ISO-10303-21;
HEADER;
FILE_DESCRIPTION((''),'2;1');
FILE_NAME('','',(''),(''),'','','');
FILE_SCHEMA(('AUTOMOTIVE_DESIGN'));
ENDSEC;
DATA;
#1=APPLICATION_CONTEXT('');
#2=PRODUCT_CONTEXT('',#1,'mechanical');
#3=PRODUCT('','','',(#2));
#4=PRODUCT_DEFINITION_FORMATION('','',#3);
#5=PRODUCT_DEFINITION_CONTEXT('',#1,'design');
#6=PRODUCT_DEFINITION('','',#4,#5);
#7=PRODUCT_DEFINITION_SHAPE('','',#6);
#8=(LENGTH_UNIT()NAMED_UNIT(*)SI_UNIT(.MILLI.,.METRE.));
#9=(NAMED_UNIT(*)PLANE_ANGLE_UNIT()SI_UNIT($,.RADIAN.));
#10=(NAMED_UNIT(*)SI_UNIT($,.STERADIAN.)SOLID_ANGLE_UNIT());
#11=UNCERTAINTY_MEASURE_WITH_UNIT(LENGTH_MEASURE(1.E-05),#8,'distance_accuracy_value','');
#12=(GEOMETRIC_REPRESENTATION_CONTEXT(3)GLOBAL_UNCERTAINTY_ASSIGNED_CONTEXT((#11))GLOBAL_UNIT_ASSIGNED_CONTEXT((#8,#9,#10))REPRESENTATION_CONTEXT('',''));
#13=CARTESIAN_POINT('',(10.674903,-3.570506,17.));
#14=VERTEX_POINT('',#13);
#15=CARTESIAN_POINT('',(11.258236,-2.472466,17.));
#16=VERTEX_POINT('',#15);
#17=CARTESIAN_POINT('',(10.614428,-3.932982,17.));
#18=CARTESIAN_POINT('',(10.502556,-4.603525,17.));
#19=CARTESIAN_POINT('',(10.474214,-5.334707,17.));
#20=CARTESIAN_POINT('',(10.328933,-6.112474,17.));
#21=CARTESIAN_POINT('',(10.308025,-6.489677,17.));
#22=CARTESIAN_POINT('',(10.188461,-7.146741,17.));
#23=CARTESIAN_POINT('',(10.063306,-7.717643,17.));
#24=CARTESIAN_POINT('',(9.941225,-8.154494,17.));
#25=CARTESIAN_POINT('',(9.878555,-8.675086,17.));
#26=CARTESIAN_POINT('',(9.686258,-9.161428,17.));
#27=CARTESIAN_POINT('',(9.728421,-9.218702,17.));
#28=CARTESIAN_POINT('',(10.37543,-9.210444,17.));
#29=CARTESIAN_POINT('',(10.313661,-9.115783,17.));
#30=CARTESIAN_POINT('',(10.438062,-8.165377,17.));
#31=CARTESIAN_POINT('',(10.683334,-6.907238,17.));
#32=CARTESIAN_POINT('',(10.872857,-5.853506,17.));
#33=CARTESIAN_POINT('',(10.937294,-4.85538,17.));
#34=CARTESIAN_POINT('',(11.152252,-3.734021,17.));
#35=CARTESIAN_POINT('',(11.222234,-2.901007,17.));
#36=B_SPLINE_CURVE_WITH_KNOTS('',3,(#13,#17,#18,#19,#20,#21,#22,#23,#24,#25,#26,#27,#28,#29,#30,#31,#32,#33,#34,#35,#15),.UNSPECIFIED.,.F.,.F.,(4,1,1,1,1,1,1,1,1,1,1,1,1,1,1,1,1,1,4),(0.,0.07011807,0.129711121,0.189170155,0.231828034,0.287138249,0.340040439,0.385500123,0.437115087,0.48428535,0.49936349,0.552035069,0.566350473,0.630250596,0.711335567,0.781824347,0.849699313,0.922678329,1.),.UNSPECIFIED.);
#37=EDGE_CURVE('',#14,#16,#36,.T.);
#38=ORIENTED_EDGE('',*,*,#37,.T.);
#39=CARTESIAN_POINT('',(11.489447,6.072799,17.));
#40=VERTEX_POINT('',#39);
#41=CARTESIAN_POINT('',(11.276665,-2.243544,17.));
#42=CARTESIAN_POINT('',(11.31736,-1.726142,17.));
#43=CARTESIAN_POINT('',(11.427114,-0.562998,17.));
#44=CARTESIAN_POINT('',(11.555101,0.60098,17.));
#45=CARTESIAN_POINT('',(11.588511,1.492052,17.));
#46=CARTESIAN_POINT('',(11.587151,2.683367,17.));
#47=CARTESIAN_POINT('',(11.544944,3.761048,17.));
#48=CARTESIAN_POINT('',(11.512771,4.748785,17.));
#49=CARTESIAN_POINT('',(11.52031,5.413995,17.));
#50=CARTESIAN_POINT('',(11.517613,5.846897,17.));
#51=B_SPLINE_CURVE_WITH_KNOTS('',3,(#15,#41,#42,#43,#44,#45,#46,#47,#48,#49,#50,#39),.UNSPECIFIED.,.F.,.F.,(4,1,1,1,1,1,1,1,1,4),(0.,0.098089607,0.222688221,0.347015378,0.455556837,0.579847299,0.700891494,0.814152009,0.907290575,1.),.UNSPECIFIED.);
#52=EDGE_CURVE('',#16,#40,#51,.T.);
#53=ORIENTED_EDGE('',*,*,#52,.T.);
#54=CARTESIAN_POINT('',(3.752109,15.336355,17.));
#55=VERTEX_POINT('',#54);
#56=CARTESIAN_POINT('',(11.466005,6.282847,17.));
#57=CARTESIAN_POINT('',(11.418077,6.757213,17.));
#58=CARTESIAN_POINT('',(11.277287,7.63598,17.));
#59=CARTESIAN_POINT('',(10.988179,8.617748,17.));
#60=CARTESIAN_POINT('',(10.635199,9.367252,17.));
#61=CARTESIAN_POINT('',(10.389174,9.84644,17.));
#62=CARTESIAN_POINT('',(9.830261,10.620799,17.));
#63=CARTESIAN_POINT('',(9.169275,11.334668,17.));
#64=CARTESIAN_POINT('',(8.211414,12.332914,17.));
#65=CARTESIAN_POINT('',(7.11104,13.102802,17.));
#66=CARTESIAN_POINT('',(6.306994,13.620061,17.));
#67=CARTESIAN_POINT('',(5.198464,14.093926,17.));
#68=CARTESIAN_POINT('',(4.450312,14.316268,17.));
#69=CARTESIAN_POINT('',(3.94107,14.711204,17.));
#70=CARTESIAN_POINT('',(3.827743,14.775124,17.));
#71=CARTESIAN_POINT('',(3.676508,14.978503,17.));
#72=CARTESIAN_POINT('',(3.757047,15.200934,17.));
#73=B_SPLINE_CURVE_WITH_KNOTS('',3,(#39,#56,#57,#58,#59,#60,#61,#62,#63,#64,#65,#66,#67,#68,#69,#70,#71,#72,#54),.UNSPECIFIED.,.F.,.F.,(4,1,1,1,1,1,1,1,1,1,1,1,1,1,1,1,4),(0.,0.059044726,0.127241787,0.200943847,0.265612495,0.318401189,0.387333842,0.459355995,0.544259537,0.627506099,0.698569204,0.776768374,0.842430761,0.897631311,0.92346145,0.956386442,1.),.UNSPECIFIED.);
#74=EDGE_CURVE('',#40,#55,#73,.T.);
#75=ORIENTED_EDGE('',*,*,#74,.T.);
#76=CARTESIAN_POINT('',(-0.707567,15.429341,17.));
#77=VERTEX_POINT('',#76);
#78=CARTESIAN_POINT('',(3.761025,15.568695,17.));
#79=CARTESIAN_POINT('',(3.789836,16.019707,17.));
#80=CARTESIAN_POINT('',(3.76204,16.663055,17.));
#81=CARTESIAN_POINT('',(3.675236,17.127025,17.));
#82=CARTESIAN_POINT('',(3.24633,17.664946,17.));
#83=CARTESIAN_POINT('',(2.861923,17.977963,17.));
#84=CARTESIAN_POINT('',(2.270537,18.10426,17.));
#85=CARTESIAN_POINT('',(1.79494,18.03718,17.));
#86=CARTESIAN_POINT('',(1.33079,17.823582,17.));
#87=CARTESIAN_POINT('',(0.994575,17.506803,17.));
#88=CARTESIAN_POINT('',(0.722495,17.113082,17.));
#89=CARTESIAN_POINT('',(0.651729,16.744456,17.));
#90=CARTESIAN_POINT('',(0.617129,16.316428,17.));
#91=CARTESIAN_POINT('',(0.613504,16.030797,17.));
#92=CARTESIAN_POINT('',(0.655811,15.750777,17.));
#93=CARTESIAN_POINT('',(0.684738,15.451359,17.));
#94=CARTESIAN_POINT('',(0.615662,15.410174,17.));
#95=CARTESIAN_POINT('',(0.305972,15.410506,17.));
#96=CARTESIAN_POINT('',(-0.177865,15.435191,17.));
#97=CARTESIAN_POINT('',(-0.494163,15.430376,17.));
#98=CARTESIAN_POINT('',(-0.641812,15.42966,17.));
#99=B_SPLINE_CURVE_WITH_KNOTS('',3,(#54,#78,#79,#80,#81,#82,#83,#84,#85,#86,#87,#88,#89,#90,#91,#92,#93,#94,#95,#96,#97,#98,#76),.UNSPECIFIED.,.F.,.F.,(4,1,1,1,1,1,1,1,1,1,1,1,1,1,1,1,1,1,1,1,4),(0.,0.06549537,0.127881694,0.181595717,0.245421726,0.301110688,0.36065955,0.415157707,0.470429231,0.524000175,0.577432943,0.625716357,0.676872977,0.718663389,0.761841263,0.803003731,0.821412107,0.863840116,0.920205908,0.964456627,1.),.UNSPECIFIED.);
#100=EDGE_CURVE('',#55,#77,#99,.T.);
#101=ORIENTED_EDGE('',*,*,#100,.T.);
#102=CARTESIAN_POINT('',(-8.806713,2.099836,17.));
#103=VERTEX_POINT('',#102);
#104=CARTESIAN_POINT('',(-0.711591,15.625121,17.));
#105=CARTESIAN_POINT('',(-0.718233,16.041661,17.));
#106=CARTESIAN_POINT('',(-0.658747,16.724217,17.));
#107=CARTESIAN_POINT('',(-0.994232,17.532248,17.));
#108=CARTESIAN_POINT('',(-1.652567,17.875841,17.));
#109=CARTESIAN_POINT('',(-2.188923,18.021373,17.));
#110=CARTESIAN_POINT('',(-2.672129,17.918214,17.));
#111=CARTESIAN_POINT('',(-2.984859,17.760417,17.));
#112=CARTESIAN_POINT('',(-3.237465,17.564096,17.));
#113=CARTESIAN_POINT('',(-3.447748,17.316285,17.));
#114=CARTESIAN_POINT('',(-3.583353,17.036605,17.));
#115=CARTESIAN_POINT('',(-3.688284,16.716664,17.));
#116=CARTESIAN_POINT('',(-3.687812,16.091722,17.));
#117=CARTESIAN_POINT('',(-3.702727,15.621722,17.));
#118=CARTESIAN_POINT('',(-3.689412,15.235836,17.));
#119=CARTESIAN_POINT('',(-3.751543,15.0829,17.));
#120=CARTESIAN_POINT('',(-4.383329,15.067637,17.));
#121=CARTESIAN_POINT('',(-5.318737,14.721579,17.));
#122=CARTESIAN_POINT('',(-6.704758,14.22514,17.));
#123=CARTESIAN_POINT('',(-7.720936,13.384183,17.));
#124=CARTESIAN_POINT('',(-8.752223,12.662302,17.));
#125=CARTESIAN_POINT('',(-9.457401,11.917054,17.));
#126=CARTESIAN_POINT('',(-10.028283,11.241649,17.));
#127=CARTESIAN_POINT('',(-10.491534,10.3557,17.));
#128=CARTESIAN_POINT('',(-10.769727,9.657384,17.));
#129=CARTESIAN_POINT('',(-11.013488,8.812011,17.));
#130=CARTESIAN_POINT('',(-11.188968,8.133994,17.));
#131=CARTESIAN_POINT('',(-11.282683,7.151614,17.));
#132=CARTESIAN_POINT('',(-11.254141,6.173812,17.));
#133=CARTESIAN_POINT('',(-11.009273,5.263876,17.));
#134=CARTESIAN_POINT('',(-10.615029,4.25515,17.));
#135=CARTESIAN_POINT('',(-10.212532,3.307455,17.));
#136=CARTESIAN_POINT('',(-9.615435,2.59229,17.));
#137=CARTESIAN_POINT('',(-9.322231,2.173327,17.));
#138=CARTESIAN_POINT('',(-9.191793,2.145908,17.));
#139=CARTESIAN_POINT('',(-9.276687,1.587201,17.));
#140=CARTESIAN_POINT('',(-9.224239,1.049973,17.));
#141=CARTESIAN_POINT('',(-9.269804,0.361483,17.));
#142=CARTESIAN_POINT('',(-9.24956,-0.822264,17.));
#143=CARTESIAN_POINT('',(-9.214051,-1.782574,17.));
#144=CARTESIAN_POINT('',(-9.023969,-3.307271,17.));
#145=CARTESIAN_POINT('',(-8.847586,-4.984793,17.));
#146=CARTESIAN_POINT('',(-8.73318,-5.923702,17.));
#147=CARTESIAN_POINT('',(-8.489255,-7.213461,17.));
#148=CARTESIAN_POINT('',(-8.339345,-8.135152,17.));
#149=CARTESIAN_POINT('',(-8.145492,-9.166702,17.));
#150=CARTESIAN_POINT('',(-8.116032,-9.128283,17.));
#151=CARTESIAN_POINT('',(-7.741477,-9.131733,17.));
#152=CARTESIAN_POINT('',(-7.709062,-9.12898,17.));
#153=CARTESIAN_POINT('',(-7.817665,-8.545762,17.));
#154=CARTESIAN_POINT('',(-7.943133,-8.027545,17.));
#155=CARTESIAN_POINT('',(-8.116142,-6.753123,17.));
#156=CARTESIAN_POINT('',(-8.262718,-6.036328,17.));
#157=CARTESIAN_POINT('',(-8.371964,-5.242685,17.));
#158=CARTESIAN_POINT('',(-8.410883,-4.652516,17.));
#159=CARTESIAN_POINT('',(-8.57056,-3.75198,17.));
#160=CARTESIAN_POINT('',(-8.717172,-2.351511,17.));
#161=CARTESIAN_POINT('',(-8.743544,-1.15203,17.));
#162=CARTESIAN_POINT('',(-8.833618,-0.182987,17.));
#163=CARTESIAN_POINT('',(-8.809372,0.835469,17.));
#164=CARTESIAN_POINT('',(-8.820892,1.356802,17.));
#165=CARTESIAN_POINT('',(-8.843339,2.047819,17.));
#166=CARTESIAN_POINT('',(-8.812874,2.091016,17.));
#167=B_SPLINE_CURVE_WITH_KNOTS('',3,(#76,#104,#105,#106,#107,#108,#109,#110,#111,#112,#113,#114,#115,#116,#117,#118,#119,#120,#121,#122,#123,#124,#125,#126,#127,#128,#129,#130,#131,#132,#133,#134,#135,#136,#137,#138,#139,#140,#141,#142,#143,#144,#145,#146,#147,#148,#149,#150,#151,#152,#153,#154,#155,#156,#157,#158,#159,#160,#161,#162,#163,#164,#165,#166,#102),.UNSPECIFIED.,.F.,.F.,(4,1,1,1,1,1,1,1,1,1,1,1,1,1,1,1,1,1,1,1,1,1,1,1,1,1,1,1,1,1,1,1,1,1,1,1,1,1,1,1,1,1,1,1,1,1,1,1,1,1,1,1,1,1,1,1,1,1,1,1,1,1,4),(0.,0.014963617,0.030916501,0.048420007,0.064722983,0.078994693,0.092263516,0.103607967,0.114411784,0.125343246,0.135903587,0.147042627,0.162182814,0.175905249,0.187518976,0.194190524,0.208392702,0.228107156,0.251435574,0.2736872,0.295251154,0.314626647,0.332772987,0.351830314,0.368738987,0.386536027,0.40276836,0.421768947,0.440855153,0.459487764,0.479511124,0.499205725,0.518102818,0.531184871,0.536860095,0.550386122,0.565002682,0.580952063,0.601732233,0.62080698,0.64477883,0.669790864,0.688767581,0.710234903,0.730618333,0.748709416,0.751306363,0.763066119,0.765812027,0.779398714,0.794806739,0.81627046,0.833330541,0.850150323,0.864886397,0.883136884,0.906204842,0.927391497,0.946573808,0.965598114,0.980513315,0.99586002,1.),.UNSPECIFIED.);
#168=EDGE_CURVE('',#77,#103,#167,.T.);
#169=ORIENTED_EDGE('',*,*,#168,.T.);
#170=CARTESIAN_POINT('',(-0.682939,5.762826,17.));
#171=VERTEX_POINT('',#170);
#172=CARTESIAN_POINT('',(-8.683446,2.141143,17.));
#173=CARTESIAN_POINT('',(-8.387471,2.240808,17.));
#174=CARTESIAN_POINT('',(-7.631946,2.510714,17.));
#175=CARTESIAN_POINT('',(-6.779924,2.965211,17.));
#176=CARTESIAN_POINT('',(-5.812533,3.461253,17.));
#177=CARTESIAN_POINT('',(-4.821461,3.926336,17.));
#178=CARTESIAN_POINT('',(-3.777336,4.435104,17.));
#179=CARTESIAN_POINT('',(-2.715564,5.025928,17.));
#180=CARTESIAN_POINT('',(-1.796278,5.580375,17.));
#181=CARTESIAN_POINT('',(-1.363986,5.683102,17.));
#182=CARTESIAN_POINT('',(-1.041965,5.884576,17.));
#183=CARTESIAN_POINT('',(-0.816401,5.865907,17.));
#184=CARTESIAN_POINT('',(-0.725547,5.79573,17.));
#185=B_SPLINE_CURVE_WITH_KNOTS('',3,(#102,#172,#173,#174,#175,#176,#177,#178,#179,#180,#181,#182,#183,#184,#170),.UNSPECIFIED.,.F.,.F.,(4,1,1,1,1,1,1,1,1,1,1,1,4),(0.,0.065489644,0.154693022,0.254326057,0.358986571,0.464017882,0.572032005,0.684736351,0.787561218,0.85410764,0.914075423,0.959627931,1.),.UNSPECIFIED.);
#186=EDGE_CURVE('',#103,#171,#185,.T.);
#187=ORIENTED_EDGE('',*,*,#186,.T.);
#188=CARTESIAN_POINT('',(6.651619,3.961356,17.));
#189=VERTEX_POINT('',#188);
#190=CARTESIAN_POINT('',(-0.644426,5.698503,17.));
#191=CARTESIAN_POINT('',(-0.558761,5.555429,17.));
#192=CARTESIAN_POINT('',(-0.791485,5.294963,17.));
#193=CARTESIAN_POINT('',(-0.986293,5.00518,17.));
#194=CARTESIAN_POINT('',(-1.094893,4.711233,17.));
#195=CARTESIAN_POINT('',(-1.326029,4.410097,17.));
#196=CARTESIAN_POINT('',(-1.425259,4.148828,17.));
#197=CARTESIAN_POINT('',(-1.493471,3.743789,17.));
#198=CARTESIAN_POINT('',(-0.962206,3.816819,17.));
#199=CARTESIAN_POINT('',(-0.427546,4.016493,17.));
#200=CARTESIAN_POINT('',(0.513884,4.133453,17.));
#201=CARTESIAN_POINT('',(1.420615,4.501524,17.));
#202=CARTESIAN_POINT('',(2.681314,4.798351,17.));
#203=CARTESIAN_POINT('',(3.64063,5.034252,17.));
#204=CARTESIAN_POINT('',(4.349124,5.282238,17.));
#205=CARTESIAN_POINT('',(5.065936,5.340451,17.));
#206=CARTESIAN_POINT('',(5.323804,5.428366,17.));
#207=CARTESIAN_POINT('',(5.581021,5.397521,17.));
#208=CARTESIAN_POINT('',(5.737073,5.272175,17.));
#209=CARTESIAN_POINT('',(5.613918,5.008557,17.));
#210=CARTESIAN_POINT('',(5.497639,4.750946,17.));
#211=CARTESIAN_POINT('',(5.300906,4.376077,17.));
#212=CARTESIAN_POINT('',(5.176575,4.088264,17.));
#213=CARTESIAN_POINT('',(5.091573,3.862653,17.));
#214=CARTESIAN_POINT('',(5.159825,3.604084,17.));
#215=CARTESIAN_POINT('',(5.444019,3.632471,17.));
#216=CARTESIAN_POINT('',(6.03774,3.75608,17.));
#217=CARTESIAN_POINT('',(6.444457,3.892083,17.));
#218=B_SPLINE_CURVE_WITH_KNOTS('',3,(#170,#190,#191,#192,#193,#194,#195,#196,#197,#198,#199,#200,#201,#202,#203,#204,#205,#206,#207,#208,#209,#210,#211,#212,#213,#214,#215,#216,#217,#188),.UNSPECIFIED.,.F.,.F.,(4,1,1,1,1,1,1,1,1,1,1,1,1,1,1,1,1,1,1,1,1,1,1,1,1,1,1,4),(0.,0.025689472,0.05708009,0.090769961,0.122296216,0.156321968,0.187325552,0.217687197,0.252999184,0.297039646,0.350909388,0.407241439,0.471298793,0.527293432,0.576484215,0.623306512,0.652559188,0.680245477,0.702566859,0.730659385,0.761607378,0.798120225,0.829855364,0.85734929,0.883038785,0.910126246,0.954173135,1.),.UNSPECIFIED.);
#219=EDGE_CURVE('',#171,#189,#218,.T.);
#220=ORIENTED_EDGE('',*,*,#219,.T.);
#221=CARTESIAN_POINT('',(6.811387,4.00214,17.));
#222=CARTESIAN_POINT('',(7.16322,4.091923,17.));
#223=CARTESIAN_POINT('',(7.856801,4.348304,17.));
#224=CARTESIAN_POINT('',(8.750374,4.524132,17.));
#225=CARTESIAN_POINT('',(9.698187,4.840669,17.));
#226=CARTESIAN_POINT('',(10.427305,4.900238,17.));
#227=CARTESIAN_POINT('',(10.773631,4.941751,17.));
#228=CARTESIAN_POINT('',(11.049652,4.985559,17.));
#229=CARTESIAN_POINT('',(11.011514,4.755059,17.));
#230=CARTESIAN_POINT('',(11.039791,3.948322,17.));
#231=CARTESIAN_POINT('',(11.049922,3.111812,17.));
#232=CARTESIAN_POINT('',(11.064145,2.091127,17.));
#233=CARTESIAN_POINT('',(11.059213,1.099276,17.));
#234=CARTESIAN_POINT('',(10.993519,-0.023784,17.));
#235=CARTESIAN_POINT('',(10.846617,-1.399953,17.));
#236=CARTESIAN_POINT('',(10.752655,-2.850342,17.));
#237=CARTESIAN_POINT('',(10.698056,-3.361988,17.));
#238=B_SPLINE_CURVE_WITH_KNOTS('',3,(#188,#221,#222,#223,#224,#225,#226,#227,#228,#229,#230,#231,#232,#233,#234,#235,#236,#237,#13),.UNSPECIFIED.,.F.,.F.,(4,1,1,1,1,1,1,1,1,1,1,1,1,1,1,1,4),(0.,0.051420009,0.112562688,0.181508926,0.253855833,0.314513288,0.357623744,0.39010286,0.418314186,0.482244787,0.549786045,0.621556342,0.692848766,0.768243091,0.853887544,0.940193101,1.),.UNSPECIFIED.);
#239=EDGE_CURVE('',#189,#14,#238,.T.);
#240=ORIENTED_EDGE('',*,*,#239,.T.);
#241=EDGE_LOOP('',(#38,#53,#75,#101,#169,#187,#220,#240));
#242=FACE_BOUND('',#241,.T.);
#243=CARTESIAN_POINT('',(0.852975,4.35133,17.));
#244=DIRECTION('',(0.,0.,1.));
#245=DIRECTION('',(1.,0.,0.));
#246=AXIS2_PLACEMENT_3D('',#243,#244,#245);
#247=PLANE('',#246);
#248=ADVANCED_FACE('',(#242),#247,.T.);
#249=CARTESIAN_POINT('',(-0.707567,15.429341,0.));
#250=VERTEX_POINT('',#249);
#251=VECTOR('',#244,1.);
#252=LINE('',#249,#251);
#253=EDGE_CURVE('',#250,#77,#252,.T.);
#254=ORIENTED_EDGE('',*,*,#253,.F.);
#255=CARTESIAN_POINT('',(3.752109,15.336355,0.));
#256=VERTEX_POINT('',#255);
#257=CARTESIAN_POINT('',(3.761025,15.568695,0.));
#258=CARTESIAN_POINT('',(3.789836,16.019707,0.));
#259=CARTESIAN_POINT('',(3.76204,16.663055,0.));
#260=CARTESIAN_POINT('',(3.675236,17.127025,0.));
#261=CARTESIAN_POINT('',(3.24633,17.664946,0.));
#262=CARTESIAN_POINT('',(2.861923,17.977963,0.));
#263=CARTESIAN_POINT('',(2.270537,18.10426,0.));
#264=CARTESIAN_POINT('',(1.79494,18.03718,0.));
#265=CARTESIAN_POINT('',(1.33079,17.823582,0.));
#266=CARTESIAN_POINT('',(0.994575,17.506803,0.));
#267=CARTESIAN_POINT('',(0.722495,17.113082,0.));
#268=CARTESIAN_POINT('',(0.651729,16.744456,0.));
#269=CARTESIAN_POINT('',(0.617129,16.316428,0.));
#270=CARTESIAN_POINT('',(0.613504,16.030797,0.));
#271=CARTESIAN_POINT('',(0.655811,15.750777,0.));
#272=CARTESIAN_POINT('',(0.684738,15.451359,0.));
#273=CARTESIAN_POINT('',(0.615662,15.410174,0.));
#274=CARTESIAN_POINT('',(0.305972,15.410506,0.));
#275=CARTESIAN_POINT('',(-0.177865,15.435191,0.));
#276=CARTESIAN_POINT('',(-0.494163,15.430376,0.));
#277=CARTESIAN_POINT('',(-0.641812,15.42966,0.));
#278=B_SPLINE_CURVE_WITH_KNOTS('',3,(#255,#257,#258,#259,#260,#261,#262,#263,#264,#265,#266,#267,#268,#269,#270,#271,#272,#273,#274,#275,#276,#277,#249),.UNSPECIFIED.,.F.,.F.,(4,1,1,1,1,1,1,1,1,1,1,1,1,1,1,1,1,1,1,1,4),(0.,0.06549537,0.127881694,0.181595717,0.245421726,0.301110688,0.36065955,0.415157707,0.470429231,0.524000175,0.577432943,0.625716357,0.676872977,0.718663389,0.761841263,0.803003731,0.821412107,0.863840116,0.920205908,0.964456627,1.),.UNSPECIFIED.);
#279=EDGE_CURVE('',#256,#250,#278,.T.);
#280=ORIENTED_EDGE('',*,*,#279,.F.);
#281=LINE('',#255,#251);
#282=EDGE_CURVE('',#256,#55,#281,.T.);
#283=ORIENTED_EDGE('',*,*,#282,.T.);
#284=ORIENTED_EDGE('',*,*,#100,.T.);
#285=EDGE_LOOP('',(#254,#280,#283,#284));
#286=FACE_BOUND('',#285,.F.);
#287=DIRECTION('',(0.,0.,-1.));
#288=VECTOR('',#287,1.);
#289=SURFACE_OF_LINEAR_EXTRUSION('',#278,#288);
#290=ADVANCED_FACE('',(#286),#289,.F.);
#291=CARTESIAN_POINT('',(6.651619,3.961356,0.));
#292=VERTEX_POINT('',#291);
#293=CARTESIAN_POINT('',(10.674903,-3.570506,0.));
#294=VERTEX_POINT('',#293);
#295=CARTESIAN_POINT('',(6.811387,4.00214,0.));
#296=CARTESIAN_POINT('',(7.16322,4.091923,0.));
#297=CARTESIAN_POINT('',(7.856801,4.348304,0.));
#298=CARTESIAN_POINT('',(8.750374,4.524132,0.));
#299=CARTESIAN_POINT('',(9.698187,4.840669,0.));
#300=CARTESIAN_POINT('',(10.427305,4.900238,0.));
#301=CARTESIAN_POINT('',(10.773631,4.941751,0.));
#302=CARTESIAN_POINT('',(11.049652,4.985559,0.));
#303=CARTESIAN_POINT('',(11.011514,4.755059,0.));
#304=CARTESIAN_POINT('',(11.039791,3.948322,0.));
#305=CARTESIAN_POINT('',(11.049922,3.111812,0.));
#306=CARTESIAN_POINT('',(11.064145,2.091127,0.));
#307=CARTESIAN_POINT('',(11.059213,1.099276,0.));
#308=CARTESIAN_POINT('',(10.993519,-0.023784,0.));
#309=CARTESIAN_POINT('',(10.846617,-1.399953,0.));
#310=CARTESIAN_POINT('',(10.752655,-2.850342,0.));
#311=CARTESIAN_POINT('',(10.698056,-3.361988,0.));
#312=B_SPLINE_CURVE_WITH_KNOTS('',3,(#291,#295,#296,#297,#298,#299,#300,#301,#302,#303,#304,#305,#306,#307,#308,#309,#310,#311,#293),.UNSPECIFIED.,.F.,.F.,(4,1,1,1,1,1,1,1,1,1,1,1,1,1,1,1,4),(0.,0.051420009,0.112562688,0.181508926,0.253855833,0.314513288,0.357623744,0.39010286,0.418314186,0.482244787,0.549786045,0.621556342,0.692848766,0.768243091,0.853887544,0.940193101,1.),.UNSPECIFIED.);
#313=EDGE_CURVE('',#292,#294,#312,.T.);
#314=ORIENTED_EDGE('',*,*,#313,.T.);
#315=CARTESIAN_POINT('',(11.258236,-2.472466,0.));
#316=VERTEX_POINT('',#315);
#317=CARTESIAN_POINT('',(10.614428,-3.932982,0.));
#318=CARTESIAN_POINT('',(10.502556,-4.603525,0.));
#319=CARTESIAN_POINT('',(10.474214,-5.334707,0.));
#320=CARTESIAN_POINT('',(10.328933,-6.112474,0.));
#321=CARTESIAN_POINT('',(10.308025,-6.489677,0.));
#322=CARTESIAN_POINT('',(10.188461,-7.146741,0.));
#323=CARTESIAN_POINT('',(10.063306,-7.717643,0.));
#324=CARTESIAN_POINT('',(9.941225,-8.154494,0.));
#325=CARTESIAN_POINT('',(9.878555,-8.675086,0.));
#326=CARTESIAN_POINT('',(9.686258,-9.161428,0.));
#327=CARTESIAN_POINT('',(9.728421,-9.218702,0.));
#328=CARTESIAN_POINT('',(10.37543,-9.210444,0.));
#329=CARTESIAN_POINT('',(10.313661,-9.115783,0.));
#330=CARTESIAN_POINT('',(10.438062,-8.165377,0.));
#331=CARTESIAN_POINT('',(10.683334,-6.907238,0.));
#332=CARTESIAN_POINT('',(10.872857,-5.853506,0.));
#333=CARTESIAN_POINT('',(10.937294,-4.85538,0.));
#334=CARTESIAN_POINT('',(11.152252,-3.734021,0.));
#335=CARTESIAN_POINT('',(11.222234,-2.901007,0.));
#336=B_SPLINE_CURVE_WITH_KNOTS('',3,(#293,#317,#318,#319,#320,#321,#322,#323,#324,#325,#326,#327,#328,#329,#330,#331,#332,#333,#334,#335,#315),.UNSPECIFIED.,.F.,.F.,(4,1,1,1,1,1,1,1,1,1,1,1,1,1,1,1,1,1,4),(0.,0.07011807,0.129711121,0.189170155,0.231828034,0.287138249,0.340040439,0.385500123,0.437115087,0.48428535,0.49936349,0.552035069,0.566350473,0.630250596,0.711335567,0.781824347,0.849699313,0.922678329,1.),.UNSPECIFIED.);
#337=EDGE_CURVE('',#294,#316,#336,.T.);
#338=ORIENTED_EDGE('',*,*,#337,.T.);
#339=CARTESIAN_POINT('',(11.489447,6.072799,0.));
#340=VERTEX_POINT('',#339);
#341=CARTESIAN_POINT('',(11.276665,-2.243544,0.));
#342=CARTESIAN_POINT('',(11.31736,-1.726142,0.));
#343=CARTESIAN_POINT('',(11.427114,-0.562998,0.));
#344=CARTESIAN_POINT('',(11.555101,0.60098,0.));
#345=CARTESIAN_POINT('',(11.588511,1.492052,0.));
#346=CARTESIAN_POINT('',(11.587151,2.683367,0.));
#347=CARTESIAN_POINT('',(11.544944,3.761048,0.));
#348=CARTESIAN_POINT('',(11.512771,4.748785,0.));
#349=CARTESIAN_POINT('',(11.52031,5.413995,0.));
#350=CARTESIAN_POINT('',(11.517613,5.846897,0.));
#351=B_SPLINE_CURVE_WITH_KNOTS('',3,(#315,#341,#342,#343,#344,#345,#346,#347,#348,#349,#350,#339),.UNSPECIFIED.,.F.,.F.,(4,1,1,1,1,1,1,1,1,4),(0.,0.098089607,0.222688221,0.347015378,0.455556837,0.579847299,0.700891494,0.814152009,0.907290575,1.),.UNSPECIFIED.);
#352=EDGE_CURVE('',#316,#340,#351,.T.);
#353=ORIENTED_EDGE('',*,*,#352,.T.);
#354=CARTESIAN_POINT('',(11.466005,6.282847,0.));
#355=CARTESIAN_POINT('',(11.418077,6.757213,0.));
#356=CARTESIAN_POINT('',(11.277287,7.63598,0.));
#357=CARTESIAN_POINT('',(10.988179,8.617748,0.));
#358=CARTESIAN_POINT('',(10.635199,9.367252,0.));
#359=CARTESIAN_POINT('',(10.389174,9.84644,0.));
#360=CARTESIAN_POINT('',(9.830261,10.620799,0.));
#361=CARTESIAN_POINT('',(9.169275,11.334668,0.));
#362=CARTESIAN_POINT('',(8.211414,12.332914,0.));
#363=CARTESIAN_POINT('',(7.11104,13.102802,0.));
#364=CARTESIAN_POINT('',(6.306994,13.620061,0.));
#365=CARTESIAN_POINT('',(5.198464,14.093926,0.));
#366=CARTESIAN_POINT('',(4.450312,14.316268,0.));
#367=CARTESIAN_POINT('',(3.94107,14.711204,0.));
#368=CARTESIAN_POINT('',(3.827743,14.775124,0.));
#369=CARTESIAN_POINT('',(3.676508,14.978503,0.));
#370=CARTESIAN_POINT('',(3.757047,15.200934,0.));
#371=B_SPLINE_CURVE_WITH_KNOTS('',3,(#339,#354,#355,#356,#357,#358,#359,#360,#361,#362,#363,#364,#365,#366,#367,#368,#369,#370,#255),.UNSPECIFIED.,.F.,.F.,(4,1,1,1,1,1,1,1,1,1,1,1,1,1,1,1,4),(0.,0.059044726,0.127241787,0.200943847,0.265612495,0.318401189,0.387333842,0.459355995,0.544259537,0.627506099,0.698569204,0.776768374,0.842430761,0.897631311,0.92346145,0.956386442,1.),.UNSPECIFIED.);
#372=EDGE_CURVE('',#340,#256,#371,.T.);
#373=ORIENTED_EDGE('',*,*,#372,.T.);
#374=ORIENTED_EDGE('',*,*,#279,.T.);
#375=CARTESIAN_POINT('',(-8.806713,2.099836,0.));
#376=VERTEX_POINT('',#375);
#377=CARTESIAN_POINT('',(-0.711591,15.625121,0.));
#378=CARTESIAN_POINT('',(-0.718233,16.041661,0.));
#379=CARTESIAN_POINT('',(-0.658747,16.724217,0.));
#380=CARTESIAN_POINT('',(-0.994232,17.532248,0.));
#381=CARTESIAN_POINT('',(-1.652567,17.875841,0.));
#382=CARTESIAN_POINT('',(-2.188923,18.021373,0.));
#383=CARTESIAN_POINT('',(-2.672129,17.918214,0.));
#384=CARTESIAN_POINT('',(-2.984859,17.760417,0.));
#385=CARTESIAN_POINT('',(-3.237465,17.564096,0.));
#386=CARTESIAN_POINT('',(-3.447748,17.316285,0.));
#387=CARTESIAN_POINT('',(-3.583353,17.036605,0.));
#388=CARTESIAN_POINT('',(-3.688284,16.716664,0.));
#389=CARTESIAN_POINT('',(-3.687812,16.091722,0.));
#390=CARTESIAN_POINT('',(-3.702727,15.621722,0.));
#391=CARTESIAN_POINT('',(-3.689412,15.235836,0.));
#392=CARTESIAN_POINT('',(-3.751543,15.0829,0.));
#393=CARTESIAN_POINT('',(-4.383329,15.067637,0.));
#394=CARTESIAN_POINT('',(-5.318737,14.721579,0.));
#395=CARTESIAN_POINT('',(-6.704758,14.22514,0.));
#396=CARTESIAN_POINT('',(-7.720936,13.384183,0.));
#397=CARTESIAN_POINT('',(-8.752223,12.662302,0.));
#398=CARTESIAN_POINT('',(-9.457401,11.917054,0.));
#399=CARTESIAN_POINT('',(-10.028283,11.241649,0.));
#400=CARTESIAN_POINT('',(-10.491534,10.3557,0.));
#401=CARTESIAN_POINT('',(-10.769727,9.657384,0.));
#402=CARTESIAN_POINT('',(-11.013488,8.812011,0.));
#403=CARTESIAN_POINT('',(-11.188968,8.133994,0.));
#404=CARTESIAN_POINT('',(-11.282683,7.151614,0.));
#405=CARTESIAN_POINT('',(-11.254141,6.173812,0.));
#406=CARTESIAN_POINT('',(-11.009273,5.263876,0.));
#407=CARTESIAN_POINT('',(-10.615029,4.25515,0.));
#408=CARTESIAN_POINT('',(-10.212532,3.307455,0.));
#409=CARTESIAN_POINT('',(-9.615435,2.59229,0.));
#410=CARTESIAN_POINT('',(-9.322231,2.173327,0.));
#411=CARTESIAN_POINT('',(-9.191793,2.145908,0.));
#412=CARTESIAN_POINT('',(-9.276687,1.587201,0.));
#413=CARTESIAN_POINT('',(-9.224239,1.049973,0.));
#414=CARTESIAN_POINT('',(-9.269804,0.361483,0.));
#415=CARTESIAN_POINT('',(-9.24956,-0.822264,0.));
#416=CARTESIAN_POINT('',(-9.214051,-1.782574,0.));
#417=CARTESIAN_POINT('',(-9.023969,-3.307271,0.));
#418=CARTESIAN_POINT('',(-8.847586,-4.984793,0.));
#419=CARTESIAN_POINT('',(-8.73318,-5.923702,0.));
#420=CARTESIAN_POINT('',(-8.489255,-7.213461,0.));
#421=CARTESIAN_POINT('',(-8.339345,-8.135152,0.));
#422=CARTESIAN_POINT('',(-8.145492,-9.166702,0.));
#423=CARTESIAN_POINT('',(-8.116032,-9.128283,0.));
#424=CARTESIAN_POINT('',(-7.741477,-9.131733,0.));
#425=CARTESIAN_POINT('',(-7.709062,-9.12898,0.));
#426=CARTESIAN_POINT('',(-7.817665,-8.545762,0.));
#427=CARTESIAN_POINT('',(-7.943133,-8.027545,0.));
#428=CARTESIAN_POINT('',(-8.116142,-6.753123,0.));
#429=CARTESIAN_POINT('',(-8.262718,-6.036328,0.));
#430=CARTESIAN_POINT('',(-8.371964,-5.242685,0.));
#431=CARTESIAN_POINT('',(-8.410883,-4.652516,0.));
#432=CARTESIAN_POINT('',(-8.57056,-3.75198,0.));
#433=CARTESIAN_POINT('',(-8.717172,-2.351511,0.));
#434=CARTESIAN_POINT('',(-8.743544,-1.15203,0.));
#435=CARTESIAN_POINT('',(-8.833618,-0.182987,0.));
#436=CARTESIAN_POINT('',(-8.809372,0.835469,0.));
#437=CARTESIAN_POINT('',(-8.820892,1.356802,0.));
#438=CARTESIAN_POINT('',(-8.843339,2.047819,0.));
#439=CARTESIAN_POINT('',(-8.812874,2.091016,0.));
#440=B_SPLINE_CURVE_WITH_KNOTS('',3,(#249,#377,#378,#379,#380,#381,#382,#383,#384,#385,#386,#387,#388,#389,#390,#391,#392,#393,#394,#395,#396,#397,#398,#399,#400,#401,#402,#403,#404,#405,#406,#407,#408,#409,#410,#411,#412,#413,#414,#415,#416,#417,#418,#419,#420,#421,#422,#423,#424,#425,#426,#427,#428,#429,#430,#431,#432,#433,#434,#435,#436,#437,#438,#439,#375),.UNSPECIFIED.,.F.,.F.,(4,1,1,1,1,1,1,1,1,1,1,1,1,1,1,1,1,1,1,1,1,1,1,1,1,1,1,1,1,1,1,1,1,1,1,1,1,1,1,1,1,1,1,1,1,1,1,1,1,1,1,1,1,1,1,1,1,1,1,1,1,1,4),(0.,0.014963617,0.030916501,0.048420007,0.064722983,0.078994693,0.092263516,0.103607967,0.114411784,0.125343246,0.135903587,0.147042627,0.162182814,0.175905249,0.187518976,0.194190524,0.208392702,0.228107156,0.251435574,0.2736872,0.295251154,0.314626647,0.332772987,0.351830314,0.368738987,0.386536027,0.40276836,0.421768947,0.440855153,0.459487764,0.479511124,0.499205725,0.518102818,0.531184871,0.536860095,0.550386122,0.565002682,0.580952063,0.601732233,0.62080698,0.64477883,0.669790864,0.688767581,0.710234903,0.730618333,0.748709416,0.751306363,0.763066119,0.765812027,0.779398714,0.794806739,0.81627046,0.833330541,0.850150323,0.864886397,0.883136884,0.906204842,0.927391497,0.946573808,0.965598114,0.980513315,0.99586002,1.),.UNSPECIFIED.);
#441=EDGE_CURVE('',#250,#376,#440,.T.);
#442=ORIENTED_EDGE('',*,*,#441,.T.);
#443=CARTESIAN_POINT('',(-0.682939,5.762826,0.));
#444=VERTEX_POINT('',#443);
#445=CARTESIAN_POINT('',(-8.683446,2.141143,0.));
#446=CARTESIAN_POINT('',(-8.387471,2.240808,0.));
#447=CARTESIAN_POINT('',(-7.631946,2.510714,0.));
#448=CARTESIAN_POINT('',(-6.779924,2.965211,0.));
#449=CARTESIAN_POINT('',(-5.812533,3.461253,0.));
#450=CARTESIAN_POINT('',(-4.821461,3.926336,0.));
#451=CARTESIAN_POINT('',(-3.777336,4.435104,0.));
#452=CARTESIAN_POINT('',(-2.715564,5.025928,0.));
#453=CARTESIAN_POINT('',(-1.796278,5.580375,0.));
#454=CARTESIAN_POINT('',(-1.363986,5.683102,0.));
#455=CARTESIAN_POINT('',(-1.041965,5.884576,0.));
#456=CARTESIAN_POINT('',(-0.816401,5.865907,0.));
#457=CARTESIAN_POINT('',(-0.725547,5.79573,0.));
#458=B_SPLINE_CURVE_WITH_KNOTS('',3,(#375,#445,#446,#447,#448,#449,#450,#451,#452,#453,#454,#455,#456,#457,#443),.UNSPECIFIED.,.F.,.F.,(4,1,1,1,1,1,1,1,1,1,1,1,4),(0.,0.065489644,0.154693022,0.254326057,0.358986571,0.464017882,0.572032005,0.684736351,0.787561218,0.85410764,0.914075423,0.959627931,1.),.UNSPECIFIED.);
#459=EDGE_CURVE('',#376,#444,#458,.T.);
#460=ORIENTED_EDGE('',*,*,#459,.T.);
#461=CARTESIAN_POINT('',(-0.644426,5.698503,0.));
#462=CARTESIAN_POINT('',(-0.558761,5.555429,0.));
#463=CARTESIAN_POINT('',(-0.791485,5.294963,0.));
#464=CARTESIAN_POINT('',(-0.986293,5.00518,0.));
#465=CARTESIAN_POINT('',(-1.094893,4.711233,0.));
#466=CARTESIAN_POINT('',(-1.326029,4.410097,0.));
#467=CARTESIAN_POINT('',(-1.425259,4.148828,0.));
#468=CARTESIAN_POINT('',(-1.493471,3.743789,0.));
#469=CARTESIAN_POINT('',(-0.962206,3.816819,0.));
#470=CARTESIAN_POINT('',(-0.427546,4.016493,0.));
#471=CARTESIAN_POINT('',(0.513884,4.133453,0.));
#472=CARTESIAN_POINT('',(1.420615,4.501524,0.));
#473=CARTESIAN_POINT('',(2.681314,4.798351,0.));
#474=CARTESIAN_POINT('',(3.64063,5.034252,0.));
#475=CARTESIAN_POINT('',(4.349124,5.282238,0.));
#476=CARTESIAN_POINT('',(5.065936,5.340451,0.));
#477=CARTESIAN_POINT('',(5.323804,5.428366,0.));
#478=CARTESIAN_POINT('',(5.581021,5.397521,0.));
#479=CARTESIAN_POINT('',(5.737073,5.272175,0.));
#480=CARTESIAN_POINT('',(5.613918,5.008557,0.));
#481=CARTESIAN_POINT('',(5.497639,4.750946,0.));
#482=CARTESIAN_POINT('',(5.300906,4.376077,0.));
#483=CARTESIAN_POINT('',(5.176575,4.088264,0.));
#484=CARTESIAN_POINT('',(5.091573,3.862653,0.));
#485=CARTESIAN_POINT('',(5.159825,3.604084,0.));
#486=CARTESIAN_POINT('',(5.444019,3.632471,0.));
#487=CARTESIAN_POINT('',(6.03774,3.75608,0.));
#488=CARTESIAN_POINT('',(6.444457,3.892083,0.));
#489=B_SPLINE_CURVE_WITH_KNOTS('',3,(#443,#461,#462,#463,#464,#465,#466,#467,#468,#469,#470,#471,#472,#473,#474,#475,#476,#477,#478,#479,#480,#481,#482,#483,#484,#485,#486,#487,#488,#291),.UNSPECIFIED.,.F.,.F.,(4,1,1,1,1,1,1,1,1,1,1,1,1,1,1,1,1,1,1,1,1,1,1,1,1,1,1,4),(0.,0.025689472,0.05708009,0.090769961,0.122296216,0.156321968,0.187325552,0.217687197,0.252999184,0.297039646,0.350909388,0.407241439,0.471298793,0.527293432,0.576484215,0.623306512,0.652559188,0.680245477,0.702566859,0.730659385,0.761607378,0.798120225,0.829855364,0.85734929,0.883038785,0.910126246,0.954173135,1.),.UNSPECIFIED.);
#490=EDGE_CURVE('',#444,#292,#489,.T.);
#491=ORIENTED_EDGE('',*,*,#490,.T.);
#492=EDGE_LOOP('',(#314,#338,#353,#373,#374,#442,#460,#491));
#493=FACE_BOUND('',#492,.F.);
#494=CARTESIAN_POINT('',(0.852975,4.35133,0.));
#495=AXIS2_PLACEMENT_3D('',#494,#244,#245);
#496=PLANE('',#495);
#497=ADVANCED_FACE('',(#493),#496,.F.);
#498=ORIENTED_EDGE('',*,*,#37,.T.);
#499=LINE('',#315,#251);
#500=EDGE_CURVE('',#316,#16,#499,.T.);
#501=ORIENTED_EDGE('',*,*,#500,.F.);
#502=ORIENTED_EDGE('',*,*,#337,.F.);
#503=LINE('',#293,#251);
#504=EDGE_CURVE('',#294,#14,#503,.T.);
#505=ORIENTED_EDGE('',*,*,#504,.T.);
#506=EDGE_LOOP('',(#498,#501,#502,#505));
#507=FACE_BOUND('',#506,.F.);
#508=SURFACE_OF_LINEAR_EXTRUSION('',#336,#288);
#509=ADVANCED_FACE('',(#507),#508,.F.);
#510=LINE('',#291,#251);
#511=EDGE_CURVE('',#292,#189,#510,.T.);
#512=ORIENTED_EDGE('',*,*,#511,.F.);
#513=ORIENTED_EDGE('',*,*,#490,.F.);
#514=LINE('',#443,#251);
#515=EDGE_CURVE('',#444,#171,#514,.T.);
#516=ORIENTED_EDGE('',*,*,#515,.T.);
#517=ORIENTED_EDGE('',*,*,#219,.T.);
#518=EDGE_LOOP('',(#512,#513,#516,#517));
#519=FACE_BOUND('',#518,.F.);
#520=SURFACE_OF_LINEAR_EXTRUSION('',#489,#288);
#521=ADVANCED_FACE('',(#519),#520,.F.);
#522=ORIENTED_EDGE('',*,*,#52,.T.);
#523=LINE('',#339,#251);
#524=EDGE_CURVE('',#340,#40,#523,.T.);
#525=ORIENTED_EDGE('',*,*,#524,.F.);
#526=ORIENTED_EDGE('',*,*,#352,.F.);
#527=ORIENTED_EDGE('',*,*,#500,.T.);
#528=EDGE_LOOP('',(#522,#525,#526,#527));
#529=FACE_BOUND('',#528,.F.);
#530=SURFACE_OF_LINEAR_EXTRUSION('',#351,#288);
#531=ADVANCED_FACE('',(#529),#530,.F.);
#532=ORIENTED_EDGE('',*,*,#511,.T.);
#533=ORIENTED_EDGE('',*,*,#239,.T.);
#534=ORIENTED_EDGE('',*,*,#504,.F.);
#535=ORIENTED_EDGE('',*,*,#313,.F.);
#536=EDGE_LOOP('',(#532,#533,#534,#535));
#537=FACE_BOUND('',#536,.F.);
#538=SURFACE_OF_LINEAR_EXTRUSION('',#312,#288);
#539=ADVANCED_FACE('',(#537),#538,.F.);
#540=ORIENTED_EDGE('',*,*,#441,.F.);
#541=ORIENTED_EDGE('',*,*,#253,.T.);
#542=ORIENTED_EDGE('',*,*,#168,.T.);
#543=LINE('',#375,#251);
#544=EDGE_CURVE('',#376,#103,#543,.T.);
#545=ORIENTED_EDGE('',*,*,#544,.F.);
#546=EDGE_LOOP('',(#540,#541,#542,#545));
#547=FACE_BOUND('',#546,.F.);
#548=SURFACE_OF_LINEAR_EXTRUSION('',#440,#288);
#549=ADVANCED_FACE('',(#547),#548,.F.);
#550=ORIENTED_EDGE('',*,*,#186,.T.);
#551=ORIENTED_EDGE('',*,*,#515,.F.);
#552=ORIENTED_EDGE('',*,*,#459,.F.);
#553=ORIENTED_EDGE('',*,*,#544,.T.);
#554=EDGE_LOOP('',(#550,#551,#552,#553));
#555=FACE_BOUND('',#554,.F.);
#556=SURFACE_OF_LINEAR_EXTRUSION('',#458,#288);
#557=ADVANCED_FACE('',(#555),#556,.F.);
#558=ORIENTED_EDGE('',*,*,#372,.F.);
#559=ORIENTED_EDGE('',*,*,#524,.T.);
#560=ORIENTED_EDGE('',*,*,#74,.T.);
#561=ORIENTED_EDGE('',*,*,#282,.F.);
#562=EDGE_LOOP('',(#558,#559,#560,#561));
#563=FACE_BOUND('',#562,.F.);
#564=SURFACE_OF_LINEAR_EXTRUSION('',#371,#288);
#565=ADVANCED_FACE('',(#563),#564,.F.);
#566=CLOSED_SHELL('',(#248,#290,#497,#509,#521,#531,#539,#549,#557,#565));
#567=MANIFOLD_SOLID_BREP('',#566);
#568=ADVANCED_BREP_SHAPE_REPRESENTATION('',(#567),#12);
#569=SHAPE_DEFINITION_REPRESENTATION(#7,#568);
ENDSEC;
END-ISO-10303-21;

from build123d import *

# Parameters (mm, degrees)
F1_DEPTH = 17


with BuildPart() as f1:
    # F0 (on Top) → F1 (new body)
    with BuildSketch(Plane.XY):
        with BuildLine():
            add(Edge.make_bspline(
                [(3.7521093618, 15.3363551944), (3.7610247867, 15.5686954228), (3.7898356613, 16.0197073781), (3.7620401353, 16.6630547574), (3.6752363223, 17.1270251681), (3.2463299814, 17.6649455973), (2.8619226063, 17.9779630934), (2.2705373791, 18.1042600208), (1.7949404534, 18.0371799763), (1.3307901324, 17.8235815521), (0.994574678, 17.5068025412), (0.7224948121, 17.1130823289), (0.6517285166, 16.7444557615), (0.6171290122, 16.3164275577), (0.6135035293, 16.0307974828), (0.6558114546, 15.7507774751), (0.6847381891, 15.4513588009), (0.6156615498, 15.4101740222), (0.3059722695, 15.410505591), (-0.1778647095, 15.4351908387), (-0.494162665, 15.4303762602), (-0.6418118214, 15.4296601765), (-0.7075667381, 15.4293412343)],
                knots=[0, 0, 0, 0, 0.06549537, 0.1278816936, 0.1815957168, 0.2454217265, 0.3011106883, 0.3606595505, 0.4151577074, 0.4704292313, 0.5240001747, 0.5774329426, 0.6257163574, 0.6768729774, 0.7186633893, 0.761841263, 0.8030037312, 0.8214121069, 0.863840116, 0.9202059083, 0.9644566268, 1, 1, 1, 1], degree=3))
            add(Edge.make_bspline(
                [(-0.7075667381, 15.4293412343), (-0.7115908858, 15.625121428), (-0.7182328284, 16.0416612548), (-0.6587465432, 16.7242171764), (-0.9942319429, 17.5322482314), (-1.6525668662, 17.8758412717), (-2.1889230624, 18.0213729688), (-2.6721287621, 17.9182138943), (-2.9848593148, 17.7604169673), (-3.2374645001, 17.5640962054), (-3.4477482201, 17.3162854121), (-3.583352879, 17.0366051463), (-3.6882842667, 16.716663976), (-3.6878120181, 16.091722216), (-3.7027269634, 15.621721623), (-3.6894120756, 15.2358362928), (-3.7515427382, 15.0829002524), (-4.3833287005, 15.067636612), (-5.3187374265, 14.7215791176), (-6.7047580653, 14.2251399532), (-7.7209360794, 13.3841827946), (-8.7522234137, 12.6623024364), (-9.4574014942, 11.9170538394), (-10.0282834162, 11.2416489141), (-10.4915344538, 10.3557004411), (-10.7697270796, 9.6573844647), (-11.0134884084, 8.8120113914), (-11.1889675521, 8.1339937764), (-11.2826834809, 7.1516142064), (-11.2541413173, 6.1738124874), (-11.0092727568, 5.2638758822), (-10.6150293498, 4.2551498589), (-10.2125316297, 3.3074545145), (-9.6154353621, 2.5922901144), (-9.3222308491, 2.1733271061), (-9.1917934699, 2.145907672), (-9.2766865066, 1.5872012803), (-9.224239362, 1.0499732584), (-9.2698035965, 0.3614827992), (-9.2495596607, -0.82226424), (-9.214051357, -1.7825738186), (-9.0239692631, -3.3072714179), (-8.8475864052, -4.9847927903), (-8.7331801301, -5.9237020119), (-8.4892547144, -7.2134614586), (-8.3393446832, -8.1351516525), (-8.1454922618, -9.1667018094), (-8.1160318294, -9.128282774), (-7.7414774756, -9.1317329207), (-7.7090622549, -9.1289804849), (-7.8176647116, -8.54576165), (-7.9431330331, -8.0275453132), (-8.1161424157, -6.7531233356), (-8.2627176306, -6.0363284335), (-8.37196404, -5.2426846412), (-8.4108828203, -4.6525163703), (-8.5705601864, -3.751980211), (-8.7171724288, -2.3515112094), (-8.7435439329, -1.1520302459), (-8.8336184853, -0.1829866396), (-8.8093720189, 0.8354688276), (-8.8208924723, 1.3568018733), (-8.8433386201, 2.0478188857), (-8.8128742344, 2.09101624), (-8.8067129254, 2.0998362452)],
                knots=[0, 0, 0, 0, 0.0149636169, 0.0309165011, 0.0484200067, 0.0647229828, 0.0789946932, 0.0922635155, 0.1036079672, 0.1144117842, 0.1253432455, 0.1359035867, 0.1470426268, 0.1621828137, 0.175905249, 0.1875189764, 0.1941905236, 0.2083927021, 0.2281071557, 0.251435574, 0.2736872001, 0.2952511541, 0.314626647, 0.3327729866, 0.3518303143, 0.3687389869, 0.3865360268, 0.4027683601, 0.4217689469, 0.4408551529, 0.4594877639, 0.4795111244, 0.4992057253, 0.5181028182, 0.531184871, 0.5368600952, 0.5503861225, 0.5650026816, 0.5809520635, 0.6017322328, 0.6208069797, 0.64477883, 0.669790864, 0.6887675809, 0.7102349033, 0.7306183329, 0.7487094159, 0.7513063627, 0.7630661187, 0.7658120274, 0.7793987139, 0.7948067393, 0.8162704597, 0.8333305411, 0.8501503232, 0.8648863966, 0.8831368843, 0.9062048421, 0.9273914968, 0.9465738083, 0.9655981143, 0.9805133155, 0.9958600196, 1, 1, 1, 1], degree=3))
            add(Edge.make_bspline(
                [(-8.8067129254, 2.0998362452), (-8.683446335, 2.1411433704), (-8.3874713722, 2.2408083363), (-7.6319459567, 2.5107139888), (-6.7799235326, 2.9652108308), (-5.8125329107, 3.4612532635), (-4.8214610083, 3.9263357771), (-3.7773363202, 4.4351043058), (-2.7155644483, 5.0259283824), (-1.7962777117, 5.5803750391), (-1.3639862211, 5.6831024142), (-1.0419653245, 5.8845756582), (-0.81640139, 5.8659068939), (-0.7255468651, 5.7957301908), (-0.6829394842, 5.7628261857)],
                knots=[0, 0, 0, 0, 0.0654896443, 0.1546930224, 0.2543260568, 0.3589865708, 0.4640178825, 0.5720320049, 0.6847363511, 0.7875612177, 0.8541076398, 0.9140754227, 0.9596279309, 1, 1, 1, 1], degree=3))
            add(Edge.make_bspline(
                [(-0.6829394842, 5.7628261857), (-0.6444259603, 5.6985027951), (-0.5587608388, 5.5554292857), (-0.791484545, 5.2949628776), (-0.9862934291, 5.0051803078), (-1.0948928315, 4.7112329127), (-1.3260285968, 4.4100970928), (-1.4252589341, 4.1488275722), (-1.4934712027, 3.7437888844), (-0.9622062264, 3.8168188123), (-0.4275460977, 4.0164925962), (0.5138836168, 4.1334525293), (1.4206149933, 4.5015240902), (2.6813140131, 4.7983512586), (3.6406299998, 5.034252232), (4.3491235867, 5.2822380602), (5.0659355777, 5.3404505573), (5.323803875, 5.4283658829), (5.5810210428, 5.3975205326), (5.7370727618, 5.2721753625), (5.6139181162, 5.0085565709), (5.4976393573, 4.7509461474), (5.3009063059, 4.3760770243), (5.1765753239, 4.0882635372), (5.0915731877, 3.8626528092), (5.1598246329, 3.6040836437), (5.4440193827, 3.6324712094), (6.0377404214, 3.756080416), (6.4444570842, 3.8920829166), (6.6516185179, 3.9613558911)],
                knots=[0, 0, 0, 0, 0.0256894715, 0.0570800902, 0.0907699606, 0.1222962157, 0.1563219676, 0.187325552, 0.2176871965, 0.2529991842, 0.2970396464, 0.3509093875, 0.4072414386, 0.4712987926, 0.5272934319, 0.5764842155, 0.6233065123, 0.6525591878, 0.6802454775, 0.7025668588, 0.7306593846, 0.7616073777, 0.7981202255, 0.8298553644, 0.8573492895, 0.8830387846, 0.9101262456, 0.954173135, 1, 1, 1, 1], degree=3))
            add(Edge.make_bspline(
                [(6.6516185179, 3.9613558911), (6.8113872692, 4.0021396043), (7.1632200341, 4.0919234224), (7.8568006771, 4.3483039785), (8.7503740041, 4.5241315462), (9.6981866861, 4.8406693892), (10.4273052071, 4.9002380365), (10.7736311785, 4.9417510642), (11.0496517127, 4.9855592851), (11.0115140114, 4.755058502), (11.0397914188, 3.9483223006), (11.049922038, 3.1118115737), (11.064144675, 2.0911273591), (11.0592131905, 1.0992759592), (10.993518732, -0.0237839332), (10.8466170008, -1.3999526354), (10.7526548869, -2.8503417022), (10.6980563164, -3.3619883216), (10.6749031693, -3.5705058835)],
                knots=[0, 0, 0, 0, 0.0514200085, 0.1125626876, 0.1815089261, 0.2538558334, 0.3145132885, 0.3576237443, 0.3901028604, 0.4183141858, 0.4822447872, 0.5497860447, 0.6215563417, 0.692848766, 0.7682430911, 0.8538875443, 0.9401931008, 1, 1, 1, 1], degree=3))
            add(Edge.make_bspline(
                [(10.6749031693, -3.5705058835), (10.6144284203, -3.9329819072), (10.5025564382, -4.6035247678), (10.4742137012, -5.3347073195), (10.3289328761, -6.1124743534), (10.3080249007, -6.48967669), (10.1884613847, -7.146741342), (10.0633056369, -7.7176432979), (9.9412245186, -8.1544935437), (9.8785551533, -8.6750857323), (9.6862583057, -9.1614279893), (9.728421255, -9.2187019024), (10.3754302336, -9.2104441906), (10.3136613534, -9.1157826718), (10.4380619282, -8.1653770123), (10.6833338034, -6.9072378216), (10.8728568534, -5.8535058691), (10.9372940108, -4.8553797359), (11.1522520656, -3.7340208531), (11.2222341105, -2.9010072852), (11.2582361326, -2.4724663235)],
                knots=[0, 0, 0, 0, 0.0701180703, 0.1297111213, 0.1891701553, 0.2318280339, 0.2871382495, 0.340040439, 0.3855001226, 0.4371150871, 0.4842853501, 0.4993634899, 0.5520350689, 0.5663504729, 0.6302505961, 0.7113355666, 0.7818243473, 0.8496993131, 0.9226783291, 1, 1, 1, 1], degree=3))
            add(Edge.make_bspline(
                [(11.2582361326, -2.4724663235), (11.2766648264, -2.2435440616), (11.3173596544, -1.7261418211), (11.4271142658, -0.562998125), (11.5551012837, 0.6009804543), (11.5885110628, 1.4920522566), (11.5871507264, 2.683367259), (11.5449437581, 3.7610484392), (11.5127711244, 4.7487853949), (11.5203103043, 5.4139947192), (11.5176132113, 5.8468971351), (11.4894472063, 6.0727987438)],
                knots=[0, 0, 0, 0, 0.0980896073, 0.2226882209, 0.3470153783, 0.4555568367, 0.5798472985, 0.7008914945, 0.8141520085, 0.9072905747, 1, 1, 1, 1], degree=3))
            add(Edge.make_bspline(
                [(11.4894472063, 6.0727987438), (11.4660047081, 6.2828467729), (11.4180765323, 6.7572126957), (11.2772873477, 7.6359795358), (10.9881793005, 8.6177483129), (10.6351991982, 9.3672522298), (10.389174034, 9.8464403692), (9.8302606814, 10.6207988512), (9.1692745277, 11.3346680288), (8.211413706, 12.3329141911), (7.111039688, 13.1028015389), (6.3069936031, 13.6200605976), (5.1984644543, 14.093925775), (4.4503119199, 14.3162680543), (3.9410698252, 14.7112041554), (3.8277428299, 14.775123623), (3.6765082425, 14.9785029506), (3.7570473411, 15.2009341489), (3.7521093618, 15.3363551944)],
                knots=[0, 0, 0, 0, 0.0590447261, 0.1272417867, 0.2009438474, 0.2656124954, 0.3184011887, 0.3873338423, 0.4593559948, 0.5442595368, 0.6275060988, 0.6985692036, 0.7767683735, 0.8424307606, 0.8976313113, 0.9234614504, 0.9563864424, 1, 1, 1, 1], degree=3))
        make_face()
    extrude(amount=F1_DEPTH)


solid = f1.part
